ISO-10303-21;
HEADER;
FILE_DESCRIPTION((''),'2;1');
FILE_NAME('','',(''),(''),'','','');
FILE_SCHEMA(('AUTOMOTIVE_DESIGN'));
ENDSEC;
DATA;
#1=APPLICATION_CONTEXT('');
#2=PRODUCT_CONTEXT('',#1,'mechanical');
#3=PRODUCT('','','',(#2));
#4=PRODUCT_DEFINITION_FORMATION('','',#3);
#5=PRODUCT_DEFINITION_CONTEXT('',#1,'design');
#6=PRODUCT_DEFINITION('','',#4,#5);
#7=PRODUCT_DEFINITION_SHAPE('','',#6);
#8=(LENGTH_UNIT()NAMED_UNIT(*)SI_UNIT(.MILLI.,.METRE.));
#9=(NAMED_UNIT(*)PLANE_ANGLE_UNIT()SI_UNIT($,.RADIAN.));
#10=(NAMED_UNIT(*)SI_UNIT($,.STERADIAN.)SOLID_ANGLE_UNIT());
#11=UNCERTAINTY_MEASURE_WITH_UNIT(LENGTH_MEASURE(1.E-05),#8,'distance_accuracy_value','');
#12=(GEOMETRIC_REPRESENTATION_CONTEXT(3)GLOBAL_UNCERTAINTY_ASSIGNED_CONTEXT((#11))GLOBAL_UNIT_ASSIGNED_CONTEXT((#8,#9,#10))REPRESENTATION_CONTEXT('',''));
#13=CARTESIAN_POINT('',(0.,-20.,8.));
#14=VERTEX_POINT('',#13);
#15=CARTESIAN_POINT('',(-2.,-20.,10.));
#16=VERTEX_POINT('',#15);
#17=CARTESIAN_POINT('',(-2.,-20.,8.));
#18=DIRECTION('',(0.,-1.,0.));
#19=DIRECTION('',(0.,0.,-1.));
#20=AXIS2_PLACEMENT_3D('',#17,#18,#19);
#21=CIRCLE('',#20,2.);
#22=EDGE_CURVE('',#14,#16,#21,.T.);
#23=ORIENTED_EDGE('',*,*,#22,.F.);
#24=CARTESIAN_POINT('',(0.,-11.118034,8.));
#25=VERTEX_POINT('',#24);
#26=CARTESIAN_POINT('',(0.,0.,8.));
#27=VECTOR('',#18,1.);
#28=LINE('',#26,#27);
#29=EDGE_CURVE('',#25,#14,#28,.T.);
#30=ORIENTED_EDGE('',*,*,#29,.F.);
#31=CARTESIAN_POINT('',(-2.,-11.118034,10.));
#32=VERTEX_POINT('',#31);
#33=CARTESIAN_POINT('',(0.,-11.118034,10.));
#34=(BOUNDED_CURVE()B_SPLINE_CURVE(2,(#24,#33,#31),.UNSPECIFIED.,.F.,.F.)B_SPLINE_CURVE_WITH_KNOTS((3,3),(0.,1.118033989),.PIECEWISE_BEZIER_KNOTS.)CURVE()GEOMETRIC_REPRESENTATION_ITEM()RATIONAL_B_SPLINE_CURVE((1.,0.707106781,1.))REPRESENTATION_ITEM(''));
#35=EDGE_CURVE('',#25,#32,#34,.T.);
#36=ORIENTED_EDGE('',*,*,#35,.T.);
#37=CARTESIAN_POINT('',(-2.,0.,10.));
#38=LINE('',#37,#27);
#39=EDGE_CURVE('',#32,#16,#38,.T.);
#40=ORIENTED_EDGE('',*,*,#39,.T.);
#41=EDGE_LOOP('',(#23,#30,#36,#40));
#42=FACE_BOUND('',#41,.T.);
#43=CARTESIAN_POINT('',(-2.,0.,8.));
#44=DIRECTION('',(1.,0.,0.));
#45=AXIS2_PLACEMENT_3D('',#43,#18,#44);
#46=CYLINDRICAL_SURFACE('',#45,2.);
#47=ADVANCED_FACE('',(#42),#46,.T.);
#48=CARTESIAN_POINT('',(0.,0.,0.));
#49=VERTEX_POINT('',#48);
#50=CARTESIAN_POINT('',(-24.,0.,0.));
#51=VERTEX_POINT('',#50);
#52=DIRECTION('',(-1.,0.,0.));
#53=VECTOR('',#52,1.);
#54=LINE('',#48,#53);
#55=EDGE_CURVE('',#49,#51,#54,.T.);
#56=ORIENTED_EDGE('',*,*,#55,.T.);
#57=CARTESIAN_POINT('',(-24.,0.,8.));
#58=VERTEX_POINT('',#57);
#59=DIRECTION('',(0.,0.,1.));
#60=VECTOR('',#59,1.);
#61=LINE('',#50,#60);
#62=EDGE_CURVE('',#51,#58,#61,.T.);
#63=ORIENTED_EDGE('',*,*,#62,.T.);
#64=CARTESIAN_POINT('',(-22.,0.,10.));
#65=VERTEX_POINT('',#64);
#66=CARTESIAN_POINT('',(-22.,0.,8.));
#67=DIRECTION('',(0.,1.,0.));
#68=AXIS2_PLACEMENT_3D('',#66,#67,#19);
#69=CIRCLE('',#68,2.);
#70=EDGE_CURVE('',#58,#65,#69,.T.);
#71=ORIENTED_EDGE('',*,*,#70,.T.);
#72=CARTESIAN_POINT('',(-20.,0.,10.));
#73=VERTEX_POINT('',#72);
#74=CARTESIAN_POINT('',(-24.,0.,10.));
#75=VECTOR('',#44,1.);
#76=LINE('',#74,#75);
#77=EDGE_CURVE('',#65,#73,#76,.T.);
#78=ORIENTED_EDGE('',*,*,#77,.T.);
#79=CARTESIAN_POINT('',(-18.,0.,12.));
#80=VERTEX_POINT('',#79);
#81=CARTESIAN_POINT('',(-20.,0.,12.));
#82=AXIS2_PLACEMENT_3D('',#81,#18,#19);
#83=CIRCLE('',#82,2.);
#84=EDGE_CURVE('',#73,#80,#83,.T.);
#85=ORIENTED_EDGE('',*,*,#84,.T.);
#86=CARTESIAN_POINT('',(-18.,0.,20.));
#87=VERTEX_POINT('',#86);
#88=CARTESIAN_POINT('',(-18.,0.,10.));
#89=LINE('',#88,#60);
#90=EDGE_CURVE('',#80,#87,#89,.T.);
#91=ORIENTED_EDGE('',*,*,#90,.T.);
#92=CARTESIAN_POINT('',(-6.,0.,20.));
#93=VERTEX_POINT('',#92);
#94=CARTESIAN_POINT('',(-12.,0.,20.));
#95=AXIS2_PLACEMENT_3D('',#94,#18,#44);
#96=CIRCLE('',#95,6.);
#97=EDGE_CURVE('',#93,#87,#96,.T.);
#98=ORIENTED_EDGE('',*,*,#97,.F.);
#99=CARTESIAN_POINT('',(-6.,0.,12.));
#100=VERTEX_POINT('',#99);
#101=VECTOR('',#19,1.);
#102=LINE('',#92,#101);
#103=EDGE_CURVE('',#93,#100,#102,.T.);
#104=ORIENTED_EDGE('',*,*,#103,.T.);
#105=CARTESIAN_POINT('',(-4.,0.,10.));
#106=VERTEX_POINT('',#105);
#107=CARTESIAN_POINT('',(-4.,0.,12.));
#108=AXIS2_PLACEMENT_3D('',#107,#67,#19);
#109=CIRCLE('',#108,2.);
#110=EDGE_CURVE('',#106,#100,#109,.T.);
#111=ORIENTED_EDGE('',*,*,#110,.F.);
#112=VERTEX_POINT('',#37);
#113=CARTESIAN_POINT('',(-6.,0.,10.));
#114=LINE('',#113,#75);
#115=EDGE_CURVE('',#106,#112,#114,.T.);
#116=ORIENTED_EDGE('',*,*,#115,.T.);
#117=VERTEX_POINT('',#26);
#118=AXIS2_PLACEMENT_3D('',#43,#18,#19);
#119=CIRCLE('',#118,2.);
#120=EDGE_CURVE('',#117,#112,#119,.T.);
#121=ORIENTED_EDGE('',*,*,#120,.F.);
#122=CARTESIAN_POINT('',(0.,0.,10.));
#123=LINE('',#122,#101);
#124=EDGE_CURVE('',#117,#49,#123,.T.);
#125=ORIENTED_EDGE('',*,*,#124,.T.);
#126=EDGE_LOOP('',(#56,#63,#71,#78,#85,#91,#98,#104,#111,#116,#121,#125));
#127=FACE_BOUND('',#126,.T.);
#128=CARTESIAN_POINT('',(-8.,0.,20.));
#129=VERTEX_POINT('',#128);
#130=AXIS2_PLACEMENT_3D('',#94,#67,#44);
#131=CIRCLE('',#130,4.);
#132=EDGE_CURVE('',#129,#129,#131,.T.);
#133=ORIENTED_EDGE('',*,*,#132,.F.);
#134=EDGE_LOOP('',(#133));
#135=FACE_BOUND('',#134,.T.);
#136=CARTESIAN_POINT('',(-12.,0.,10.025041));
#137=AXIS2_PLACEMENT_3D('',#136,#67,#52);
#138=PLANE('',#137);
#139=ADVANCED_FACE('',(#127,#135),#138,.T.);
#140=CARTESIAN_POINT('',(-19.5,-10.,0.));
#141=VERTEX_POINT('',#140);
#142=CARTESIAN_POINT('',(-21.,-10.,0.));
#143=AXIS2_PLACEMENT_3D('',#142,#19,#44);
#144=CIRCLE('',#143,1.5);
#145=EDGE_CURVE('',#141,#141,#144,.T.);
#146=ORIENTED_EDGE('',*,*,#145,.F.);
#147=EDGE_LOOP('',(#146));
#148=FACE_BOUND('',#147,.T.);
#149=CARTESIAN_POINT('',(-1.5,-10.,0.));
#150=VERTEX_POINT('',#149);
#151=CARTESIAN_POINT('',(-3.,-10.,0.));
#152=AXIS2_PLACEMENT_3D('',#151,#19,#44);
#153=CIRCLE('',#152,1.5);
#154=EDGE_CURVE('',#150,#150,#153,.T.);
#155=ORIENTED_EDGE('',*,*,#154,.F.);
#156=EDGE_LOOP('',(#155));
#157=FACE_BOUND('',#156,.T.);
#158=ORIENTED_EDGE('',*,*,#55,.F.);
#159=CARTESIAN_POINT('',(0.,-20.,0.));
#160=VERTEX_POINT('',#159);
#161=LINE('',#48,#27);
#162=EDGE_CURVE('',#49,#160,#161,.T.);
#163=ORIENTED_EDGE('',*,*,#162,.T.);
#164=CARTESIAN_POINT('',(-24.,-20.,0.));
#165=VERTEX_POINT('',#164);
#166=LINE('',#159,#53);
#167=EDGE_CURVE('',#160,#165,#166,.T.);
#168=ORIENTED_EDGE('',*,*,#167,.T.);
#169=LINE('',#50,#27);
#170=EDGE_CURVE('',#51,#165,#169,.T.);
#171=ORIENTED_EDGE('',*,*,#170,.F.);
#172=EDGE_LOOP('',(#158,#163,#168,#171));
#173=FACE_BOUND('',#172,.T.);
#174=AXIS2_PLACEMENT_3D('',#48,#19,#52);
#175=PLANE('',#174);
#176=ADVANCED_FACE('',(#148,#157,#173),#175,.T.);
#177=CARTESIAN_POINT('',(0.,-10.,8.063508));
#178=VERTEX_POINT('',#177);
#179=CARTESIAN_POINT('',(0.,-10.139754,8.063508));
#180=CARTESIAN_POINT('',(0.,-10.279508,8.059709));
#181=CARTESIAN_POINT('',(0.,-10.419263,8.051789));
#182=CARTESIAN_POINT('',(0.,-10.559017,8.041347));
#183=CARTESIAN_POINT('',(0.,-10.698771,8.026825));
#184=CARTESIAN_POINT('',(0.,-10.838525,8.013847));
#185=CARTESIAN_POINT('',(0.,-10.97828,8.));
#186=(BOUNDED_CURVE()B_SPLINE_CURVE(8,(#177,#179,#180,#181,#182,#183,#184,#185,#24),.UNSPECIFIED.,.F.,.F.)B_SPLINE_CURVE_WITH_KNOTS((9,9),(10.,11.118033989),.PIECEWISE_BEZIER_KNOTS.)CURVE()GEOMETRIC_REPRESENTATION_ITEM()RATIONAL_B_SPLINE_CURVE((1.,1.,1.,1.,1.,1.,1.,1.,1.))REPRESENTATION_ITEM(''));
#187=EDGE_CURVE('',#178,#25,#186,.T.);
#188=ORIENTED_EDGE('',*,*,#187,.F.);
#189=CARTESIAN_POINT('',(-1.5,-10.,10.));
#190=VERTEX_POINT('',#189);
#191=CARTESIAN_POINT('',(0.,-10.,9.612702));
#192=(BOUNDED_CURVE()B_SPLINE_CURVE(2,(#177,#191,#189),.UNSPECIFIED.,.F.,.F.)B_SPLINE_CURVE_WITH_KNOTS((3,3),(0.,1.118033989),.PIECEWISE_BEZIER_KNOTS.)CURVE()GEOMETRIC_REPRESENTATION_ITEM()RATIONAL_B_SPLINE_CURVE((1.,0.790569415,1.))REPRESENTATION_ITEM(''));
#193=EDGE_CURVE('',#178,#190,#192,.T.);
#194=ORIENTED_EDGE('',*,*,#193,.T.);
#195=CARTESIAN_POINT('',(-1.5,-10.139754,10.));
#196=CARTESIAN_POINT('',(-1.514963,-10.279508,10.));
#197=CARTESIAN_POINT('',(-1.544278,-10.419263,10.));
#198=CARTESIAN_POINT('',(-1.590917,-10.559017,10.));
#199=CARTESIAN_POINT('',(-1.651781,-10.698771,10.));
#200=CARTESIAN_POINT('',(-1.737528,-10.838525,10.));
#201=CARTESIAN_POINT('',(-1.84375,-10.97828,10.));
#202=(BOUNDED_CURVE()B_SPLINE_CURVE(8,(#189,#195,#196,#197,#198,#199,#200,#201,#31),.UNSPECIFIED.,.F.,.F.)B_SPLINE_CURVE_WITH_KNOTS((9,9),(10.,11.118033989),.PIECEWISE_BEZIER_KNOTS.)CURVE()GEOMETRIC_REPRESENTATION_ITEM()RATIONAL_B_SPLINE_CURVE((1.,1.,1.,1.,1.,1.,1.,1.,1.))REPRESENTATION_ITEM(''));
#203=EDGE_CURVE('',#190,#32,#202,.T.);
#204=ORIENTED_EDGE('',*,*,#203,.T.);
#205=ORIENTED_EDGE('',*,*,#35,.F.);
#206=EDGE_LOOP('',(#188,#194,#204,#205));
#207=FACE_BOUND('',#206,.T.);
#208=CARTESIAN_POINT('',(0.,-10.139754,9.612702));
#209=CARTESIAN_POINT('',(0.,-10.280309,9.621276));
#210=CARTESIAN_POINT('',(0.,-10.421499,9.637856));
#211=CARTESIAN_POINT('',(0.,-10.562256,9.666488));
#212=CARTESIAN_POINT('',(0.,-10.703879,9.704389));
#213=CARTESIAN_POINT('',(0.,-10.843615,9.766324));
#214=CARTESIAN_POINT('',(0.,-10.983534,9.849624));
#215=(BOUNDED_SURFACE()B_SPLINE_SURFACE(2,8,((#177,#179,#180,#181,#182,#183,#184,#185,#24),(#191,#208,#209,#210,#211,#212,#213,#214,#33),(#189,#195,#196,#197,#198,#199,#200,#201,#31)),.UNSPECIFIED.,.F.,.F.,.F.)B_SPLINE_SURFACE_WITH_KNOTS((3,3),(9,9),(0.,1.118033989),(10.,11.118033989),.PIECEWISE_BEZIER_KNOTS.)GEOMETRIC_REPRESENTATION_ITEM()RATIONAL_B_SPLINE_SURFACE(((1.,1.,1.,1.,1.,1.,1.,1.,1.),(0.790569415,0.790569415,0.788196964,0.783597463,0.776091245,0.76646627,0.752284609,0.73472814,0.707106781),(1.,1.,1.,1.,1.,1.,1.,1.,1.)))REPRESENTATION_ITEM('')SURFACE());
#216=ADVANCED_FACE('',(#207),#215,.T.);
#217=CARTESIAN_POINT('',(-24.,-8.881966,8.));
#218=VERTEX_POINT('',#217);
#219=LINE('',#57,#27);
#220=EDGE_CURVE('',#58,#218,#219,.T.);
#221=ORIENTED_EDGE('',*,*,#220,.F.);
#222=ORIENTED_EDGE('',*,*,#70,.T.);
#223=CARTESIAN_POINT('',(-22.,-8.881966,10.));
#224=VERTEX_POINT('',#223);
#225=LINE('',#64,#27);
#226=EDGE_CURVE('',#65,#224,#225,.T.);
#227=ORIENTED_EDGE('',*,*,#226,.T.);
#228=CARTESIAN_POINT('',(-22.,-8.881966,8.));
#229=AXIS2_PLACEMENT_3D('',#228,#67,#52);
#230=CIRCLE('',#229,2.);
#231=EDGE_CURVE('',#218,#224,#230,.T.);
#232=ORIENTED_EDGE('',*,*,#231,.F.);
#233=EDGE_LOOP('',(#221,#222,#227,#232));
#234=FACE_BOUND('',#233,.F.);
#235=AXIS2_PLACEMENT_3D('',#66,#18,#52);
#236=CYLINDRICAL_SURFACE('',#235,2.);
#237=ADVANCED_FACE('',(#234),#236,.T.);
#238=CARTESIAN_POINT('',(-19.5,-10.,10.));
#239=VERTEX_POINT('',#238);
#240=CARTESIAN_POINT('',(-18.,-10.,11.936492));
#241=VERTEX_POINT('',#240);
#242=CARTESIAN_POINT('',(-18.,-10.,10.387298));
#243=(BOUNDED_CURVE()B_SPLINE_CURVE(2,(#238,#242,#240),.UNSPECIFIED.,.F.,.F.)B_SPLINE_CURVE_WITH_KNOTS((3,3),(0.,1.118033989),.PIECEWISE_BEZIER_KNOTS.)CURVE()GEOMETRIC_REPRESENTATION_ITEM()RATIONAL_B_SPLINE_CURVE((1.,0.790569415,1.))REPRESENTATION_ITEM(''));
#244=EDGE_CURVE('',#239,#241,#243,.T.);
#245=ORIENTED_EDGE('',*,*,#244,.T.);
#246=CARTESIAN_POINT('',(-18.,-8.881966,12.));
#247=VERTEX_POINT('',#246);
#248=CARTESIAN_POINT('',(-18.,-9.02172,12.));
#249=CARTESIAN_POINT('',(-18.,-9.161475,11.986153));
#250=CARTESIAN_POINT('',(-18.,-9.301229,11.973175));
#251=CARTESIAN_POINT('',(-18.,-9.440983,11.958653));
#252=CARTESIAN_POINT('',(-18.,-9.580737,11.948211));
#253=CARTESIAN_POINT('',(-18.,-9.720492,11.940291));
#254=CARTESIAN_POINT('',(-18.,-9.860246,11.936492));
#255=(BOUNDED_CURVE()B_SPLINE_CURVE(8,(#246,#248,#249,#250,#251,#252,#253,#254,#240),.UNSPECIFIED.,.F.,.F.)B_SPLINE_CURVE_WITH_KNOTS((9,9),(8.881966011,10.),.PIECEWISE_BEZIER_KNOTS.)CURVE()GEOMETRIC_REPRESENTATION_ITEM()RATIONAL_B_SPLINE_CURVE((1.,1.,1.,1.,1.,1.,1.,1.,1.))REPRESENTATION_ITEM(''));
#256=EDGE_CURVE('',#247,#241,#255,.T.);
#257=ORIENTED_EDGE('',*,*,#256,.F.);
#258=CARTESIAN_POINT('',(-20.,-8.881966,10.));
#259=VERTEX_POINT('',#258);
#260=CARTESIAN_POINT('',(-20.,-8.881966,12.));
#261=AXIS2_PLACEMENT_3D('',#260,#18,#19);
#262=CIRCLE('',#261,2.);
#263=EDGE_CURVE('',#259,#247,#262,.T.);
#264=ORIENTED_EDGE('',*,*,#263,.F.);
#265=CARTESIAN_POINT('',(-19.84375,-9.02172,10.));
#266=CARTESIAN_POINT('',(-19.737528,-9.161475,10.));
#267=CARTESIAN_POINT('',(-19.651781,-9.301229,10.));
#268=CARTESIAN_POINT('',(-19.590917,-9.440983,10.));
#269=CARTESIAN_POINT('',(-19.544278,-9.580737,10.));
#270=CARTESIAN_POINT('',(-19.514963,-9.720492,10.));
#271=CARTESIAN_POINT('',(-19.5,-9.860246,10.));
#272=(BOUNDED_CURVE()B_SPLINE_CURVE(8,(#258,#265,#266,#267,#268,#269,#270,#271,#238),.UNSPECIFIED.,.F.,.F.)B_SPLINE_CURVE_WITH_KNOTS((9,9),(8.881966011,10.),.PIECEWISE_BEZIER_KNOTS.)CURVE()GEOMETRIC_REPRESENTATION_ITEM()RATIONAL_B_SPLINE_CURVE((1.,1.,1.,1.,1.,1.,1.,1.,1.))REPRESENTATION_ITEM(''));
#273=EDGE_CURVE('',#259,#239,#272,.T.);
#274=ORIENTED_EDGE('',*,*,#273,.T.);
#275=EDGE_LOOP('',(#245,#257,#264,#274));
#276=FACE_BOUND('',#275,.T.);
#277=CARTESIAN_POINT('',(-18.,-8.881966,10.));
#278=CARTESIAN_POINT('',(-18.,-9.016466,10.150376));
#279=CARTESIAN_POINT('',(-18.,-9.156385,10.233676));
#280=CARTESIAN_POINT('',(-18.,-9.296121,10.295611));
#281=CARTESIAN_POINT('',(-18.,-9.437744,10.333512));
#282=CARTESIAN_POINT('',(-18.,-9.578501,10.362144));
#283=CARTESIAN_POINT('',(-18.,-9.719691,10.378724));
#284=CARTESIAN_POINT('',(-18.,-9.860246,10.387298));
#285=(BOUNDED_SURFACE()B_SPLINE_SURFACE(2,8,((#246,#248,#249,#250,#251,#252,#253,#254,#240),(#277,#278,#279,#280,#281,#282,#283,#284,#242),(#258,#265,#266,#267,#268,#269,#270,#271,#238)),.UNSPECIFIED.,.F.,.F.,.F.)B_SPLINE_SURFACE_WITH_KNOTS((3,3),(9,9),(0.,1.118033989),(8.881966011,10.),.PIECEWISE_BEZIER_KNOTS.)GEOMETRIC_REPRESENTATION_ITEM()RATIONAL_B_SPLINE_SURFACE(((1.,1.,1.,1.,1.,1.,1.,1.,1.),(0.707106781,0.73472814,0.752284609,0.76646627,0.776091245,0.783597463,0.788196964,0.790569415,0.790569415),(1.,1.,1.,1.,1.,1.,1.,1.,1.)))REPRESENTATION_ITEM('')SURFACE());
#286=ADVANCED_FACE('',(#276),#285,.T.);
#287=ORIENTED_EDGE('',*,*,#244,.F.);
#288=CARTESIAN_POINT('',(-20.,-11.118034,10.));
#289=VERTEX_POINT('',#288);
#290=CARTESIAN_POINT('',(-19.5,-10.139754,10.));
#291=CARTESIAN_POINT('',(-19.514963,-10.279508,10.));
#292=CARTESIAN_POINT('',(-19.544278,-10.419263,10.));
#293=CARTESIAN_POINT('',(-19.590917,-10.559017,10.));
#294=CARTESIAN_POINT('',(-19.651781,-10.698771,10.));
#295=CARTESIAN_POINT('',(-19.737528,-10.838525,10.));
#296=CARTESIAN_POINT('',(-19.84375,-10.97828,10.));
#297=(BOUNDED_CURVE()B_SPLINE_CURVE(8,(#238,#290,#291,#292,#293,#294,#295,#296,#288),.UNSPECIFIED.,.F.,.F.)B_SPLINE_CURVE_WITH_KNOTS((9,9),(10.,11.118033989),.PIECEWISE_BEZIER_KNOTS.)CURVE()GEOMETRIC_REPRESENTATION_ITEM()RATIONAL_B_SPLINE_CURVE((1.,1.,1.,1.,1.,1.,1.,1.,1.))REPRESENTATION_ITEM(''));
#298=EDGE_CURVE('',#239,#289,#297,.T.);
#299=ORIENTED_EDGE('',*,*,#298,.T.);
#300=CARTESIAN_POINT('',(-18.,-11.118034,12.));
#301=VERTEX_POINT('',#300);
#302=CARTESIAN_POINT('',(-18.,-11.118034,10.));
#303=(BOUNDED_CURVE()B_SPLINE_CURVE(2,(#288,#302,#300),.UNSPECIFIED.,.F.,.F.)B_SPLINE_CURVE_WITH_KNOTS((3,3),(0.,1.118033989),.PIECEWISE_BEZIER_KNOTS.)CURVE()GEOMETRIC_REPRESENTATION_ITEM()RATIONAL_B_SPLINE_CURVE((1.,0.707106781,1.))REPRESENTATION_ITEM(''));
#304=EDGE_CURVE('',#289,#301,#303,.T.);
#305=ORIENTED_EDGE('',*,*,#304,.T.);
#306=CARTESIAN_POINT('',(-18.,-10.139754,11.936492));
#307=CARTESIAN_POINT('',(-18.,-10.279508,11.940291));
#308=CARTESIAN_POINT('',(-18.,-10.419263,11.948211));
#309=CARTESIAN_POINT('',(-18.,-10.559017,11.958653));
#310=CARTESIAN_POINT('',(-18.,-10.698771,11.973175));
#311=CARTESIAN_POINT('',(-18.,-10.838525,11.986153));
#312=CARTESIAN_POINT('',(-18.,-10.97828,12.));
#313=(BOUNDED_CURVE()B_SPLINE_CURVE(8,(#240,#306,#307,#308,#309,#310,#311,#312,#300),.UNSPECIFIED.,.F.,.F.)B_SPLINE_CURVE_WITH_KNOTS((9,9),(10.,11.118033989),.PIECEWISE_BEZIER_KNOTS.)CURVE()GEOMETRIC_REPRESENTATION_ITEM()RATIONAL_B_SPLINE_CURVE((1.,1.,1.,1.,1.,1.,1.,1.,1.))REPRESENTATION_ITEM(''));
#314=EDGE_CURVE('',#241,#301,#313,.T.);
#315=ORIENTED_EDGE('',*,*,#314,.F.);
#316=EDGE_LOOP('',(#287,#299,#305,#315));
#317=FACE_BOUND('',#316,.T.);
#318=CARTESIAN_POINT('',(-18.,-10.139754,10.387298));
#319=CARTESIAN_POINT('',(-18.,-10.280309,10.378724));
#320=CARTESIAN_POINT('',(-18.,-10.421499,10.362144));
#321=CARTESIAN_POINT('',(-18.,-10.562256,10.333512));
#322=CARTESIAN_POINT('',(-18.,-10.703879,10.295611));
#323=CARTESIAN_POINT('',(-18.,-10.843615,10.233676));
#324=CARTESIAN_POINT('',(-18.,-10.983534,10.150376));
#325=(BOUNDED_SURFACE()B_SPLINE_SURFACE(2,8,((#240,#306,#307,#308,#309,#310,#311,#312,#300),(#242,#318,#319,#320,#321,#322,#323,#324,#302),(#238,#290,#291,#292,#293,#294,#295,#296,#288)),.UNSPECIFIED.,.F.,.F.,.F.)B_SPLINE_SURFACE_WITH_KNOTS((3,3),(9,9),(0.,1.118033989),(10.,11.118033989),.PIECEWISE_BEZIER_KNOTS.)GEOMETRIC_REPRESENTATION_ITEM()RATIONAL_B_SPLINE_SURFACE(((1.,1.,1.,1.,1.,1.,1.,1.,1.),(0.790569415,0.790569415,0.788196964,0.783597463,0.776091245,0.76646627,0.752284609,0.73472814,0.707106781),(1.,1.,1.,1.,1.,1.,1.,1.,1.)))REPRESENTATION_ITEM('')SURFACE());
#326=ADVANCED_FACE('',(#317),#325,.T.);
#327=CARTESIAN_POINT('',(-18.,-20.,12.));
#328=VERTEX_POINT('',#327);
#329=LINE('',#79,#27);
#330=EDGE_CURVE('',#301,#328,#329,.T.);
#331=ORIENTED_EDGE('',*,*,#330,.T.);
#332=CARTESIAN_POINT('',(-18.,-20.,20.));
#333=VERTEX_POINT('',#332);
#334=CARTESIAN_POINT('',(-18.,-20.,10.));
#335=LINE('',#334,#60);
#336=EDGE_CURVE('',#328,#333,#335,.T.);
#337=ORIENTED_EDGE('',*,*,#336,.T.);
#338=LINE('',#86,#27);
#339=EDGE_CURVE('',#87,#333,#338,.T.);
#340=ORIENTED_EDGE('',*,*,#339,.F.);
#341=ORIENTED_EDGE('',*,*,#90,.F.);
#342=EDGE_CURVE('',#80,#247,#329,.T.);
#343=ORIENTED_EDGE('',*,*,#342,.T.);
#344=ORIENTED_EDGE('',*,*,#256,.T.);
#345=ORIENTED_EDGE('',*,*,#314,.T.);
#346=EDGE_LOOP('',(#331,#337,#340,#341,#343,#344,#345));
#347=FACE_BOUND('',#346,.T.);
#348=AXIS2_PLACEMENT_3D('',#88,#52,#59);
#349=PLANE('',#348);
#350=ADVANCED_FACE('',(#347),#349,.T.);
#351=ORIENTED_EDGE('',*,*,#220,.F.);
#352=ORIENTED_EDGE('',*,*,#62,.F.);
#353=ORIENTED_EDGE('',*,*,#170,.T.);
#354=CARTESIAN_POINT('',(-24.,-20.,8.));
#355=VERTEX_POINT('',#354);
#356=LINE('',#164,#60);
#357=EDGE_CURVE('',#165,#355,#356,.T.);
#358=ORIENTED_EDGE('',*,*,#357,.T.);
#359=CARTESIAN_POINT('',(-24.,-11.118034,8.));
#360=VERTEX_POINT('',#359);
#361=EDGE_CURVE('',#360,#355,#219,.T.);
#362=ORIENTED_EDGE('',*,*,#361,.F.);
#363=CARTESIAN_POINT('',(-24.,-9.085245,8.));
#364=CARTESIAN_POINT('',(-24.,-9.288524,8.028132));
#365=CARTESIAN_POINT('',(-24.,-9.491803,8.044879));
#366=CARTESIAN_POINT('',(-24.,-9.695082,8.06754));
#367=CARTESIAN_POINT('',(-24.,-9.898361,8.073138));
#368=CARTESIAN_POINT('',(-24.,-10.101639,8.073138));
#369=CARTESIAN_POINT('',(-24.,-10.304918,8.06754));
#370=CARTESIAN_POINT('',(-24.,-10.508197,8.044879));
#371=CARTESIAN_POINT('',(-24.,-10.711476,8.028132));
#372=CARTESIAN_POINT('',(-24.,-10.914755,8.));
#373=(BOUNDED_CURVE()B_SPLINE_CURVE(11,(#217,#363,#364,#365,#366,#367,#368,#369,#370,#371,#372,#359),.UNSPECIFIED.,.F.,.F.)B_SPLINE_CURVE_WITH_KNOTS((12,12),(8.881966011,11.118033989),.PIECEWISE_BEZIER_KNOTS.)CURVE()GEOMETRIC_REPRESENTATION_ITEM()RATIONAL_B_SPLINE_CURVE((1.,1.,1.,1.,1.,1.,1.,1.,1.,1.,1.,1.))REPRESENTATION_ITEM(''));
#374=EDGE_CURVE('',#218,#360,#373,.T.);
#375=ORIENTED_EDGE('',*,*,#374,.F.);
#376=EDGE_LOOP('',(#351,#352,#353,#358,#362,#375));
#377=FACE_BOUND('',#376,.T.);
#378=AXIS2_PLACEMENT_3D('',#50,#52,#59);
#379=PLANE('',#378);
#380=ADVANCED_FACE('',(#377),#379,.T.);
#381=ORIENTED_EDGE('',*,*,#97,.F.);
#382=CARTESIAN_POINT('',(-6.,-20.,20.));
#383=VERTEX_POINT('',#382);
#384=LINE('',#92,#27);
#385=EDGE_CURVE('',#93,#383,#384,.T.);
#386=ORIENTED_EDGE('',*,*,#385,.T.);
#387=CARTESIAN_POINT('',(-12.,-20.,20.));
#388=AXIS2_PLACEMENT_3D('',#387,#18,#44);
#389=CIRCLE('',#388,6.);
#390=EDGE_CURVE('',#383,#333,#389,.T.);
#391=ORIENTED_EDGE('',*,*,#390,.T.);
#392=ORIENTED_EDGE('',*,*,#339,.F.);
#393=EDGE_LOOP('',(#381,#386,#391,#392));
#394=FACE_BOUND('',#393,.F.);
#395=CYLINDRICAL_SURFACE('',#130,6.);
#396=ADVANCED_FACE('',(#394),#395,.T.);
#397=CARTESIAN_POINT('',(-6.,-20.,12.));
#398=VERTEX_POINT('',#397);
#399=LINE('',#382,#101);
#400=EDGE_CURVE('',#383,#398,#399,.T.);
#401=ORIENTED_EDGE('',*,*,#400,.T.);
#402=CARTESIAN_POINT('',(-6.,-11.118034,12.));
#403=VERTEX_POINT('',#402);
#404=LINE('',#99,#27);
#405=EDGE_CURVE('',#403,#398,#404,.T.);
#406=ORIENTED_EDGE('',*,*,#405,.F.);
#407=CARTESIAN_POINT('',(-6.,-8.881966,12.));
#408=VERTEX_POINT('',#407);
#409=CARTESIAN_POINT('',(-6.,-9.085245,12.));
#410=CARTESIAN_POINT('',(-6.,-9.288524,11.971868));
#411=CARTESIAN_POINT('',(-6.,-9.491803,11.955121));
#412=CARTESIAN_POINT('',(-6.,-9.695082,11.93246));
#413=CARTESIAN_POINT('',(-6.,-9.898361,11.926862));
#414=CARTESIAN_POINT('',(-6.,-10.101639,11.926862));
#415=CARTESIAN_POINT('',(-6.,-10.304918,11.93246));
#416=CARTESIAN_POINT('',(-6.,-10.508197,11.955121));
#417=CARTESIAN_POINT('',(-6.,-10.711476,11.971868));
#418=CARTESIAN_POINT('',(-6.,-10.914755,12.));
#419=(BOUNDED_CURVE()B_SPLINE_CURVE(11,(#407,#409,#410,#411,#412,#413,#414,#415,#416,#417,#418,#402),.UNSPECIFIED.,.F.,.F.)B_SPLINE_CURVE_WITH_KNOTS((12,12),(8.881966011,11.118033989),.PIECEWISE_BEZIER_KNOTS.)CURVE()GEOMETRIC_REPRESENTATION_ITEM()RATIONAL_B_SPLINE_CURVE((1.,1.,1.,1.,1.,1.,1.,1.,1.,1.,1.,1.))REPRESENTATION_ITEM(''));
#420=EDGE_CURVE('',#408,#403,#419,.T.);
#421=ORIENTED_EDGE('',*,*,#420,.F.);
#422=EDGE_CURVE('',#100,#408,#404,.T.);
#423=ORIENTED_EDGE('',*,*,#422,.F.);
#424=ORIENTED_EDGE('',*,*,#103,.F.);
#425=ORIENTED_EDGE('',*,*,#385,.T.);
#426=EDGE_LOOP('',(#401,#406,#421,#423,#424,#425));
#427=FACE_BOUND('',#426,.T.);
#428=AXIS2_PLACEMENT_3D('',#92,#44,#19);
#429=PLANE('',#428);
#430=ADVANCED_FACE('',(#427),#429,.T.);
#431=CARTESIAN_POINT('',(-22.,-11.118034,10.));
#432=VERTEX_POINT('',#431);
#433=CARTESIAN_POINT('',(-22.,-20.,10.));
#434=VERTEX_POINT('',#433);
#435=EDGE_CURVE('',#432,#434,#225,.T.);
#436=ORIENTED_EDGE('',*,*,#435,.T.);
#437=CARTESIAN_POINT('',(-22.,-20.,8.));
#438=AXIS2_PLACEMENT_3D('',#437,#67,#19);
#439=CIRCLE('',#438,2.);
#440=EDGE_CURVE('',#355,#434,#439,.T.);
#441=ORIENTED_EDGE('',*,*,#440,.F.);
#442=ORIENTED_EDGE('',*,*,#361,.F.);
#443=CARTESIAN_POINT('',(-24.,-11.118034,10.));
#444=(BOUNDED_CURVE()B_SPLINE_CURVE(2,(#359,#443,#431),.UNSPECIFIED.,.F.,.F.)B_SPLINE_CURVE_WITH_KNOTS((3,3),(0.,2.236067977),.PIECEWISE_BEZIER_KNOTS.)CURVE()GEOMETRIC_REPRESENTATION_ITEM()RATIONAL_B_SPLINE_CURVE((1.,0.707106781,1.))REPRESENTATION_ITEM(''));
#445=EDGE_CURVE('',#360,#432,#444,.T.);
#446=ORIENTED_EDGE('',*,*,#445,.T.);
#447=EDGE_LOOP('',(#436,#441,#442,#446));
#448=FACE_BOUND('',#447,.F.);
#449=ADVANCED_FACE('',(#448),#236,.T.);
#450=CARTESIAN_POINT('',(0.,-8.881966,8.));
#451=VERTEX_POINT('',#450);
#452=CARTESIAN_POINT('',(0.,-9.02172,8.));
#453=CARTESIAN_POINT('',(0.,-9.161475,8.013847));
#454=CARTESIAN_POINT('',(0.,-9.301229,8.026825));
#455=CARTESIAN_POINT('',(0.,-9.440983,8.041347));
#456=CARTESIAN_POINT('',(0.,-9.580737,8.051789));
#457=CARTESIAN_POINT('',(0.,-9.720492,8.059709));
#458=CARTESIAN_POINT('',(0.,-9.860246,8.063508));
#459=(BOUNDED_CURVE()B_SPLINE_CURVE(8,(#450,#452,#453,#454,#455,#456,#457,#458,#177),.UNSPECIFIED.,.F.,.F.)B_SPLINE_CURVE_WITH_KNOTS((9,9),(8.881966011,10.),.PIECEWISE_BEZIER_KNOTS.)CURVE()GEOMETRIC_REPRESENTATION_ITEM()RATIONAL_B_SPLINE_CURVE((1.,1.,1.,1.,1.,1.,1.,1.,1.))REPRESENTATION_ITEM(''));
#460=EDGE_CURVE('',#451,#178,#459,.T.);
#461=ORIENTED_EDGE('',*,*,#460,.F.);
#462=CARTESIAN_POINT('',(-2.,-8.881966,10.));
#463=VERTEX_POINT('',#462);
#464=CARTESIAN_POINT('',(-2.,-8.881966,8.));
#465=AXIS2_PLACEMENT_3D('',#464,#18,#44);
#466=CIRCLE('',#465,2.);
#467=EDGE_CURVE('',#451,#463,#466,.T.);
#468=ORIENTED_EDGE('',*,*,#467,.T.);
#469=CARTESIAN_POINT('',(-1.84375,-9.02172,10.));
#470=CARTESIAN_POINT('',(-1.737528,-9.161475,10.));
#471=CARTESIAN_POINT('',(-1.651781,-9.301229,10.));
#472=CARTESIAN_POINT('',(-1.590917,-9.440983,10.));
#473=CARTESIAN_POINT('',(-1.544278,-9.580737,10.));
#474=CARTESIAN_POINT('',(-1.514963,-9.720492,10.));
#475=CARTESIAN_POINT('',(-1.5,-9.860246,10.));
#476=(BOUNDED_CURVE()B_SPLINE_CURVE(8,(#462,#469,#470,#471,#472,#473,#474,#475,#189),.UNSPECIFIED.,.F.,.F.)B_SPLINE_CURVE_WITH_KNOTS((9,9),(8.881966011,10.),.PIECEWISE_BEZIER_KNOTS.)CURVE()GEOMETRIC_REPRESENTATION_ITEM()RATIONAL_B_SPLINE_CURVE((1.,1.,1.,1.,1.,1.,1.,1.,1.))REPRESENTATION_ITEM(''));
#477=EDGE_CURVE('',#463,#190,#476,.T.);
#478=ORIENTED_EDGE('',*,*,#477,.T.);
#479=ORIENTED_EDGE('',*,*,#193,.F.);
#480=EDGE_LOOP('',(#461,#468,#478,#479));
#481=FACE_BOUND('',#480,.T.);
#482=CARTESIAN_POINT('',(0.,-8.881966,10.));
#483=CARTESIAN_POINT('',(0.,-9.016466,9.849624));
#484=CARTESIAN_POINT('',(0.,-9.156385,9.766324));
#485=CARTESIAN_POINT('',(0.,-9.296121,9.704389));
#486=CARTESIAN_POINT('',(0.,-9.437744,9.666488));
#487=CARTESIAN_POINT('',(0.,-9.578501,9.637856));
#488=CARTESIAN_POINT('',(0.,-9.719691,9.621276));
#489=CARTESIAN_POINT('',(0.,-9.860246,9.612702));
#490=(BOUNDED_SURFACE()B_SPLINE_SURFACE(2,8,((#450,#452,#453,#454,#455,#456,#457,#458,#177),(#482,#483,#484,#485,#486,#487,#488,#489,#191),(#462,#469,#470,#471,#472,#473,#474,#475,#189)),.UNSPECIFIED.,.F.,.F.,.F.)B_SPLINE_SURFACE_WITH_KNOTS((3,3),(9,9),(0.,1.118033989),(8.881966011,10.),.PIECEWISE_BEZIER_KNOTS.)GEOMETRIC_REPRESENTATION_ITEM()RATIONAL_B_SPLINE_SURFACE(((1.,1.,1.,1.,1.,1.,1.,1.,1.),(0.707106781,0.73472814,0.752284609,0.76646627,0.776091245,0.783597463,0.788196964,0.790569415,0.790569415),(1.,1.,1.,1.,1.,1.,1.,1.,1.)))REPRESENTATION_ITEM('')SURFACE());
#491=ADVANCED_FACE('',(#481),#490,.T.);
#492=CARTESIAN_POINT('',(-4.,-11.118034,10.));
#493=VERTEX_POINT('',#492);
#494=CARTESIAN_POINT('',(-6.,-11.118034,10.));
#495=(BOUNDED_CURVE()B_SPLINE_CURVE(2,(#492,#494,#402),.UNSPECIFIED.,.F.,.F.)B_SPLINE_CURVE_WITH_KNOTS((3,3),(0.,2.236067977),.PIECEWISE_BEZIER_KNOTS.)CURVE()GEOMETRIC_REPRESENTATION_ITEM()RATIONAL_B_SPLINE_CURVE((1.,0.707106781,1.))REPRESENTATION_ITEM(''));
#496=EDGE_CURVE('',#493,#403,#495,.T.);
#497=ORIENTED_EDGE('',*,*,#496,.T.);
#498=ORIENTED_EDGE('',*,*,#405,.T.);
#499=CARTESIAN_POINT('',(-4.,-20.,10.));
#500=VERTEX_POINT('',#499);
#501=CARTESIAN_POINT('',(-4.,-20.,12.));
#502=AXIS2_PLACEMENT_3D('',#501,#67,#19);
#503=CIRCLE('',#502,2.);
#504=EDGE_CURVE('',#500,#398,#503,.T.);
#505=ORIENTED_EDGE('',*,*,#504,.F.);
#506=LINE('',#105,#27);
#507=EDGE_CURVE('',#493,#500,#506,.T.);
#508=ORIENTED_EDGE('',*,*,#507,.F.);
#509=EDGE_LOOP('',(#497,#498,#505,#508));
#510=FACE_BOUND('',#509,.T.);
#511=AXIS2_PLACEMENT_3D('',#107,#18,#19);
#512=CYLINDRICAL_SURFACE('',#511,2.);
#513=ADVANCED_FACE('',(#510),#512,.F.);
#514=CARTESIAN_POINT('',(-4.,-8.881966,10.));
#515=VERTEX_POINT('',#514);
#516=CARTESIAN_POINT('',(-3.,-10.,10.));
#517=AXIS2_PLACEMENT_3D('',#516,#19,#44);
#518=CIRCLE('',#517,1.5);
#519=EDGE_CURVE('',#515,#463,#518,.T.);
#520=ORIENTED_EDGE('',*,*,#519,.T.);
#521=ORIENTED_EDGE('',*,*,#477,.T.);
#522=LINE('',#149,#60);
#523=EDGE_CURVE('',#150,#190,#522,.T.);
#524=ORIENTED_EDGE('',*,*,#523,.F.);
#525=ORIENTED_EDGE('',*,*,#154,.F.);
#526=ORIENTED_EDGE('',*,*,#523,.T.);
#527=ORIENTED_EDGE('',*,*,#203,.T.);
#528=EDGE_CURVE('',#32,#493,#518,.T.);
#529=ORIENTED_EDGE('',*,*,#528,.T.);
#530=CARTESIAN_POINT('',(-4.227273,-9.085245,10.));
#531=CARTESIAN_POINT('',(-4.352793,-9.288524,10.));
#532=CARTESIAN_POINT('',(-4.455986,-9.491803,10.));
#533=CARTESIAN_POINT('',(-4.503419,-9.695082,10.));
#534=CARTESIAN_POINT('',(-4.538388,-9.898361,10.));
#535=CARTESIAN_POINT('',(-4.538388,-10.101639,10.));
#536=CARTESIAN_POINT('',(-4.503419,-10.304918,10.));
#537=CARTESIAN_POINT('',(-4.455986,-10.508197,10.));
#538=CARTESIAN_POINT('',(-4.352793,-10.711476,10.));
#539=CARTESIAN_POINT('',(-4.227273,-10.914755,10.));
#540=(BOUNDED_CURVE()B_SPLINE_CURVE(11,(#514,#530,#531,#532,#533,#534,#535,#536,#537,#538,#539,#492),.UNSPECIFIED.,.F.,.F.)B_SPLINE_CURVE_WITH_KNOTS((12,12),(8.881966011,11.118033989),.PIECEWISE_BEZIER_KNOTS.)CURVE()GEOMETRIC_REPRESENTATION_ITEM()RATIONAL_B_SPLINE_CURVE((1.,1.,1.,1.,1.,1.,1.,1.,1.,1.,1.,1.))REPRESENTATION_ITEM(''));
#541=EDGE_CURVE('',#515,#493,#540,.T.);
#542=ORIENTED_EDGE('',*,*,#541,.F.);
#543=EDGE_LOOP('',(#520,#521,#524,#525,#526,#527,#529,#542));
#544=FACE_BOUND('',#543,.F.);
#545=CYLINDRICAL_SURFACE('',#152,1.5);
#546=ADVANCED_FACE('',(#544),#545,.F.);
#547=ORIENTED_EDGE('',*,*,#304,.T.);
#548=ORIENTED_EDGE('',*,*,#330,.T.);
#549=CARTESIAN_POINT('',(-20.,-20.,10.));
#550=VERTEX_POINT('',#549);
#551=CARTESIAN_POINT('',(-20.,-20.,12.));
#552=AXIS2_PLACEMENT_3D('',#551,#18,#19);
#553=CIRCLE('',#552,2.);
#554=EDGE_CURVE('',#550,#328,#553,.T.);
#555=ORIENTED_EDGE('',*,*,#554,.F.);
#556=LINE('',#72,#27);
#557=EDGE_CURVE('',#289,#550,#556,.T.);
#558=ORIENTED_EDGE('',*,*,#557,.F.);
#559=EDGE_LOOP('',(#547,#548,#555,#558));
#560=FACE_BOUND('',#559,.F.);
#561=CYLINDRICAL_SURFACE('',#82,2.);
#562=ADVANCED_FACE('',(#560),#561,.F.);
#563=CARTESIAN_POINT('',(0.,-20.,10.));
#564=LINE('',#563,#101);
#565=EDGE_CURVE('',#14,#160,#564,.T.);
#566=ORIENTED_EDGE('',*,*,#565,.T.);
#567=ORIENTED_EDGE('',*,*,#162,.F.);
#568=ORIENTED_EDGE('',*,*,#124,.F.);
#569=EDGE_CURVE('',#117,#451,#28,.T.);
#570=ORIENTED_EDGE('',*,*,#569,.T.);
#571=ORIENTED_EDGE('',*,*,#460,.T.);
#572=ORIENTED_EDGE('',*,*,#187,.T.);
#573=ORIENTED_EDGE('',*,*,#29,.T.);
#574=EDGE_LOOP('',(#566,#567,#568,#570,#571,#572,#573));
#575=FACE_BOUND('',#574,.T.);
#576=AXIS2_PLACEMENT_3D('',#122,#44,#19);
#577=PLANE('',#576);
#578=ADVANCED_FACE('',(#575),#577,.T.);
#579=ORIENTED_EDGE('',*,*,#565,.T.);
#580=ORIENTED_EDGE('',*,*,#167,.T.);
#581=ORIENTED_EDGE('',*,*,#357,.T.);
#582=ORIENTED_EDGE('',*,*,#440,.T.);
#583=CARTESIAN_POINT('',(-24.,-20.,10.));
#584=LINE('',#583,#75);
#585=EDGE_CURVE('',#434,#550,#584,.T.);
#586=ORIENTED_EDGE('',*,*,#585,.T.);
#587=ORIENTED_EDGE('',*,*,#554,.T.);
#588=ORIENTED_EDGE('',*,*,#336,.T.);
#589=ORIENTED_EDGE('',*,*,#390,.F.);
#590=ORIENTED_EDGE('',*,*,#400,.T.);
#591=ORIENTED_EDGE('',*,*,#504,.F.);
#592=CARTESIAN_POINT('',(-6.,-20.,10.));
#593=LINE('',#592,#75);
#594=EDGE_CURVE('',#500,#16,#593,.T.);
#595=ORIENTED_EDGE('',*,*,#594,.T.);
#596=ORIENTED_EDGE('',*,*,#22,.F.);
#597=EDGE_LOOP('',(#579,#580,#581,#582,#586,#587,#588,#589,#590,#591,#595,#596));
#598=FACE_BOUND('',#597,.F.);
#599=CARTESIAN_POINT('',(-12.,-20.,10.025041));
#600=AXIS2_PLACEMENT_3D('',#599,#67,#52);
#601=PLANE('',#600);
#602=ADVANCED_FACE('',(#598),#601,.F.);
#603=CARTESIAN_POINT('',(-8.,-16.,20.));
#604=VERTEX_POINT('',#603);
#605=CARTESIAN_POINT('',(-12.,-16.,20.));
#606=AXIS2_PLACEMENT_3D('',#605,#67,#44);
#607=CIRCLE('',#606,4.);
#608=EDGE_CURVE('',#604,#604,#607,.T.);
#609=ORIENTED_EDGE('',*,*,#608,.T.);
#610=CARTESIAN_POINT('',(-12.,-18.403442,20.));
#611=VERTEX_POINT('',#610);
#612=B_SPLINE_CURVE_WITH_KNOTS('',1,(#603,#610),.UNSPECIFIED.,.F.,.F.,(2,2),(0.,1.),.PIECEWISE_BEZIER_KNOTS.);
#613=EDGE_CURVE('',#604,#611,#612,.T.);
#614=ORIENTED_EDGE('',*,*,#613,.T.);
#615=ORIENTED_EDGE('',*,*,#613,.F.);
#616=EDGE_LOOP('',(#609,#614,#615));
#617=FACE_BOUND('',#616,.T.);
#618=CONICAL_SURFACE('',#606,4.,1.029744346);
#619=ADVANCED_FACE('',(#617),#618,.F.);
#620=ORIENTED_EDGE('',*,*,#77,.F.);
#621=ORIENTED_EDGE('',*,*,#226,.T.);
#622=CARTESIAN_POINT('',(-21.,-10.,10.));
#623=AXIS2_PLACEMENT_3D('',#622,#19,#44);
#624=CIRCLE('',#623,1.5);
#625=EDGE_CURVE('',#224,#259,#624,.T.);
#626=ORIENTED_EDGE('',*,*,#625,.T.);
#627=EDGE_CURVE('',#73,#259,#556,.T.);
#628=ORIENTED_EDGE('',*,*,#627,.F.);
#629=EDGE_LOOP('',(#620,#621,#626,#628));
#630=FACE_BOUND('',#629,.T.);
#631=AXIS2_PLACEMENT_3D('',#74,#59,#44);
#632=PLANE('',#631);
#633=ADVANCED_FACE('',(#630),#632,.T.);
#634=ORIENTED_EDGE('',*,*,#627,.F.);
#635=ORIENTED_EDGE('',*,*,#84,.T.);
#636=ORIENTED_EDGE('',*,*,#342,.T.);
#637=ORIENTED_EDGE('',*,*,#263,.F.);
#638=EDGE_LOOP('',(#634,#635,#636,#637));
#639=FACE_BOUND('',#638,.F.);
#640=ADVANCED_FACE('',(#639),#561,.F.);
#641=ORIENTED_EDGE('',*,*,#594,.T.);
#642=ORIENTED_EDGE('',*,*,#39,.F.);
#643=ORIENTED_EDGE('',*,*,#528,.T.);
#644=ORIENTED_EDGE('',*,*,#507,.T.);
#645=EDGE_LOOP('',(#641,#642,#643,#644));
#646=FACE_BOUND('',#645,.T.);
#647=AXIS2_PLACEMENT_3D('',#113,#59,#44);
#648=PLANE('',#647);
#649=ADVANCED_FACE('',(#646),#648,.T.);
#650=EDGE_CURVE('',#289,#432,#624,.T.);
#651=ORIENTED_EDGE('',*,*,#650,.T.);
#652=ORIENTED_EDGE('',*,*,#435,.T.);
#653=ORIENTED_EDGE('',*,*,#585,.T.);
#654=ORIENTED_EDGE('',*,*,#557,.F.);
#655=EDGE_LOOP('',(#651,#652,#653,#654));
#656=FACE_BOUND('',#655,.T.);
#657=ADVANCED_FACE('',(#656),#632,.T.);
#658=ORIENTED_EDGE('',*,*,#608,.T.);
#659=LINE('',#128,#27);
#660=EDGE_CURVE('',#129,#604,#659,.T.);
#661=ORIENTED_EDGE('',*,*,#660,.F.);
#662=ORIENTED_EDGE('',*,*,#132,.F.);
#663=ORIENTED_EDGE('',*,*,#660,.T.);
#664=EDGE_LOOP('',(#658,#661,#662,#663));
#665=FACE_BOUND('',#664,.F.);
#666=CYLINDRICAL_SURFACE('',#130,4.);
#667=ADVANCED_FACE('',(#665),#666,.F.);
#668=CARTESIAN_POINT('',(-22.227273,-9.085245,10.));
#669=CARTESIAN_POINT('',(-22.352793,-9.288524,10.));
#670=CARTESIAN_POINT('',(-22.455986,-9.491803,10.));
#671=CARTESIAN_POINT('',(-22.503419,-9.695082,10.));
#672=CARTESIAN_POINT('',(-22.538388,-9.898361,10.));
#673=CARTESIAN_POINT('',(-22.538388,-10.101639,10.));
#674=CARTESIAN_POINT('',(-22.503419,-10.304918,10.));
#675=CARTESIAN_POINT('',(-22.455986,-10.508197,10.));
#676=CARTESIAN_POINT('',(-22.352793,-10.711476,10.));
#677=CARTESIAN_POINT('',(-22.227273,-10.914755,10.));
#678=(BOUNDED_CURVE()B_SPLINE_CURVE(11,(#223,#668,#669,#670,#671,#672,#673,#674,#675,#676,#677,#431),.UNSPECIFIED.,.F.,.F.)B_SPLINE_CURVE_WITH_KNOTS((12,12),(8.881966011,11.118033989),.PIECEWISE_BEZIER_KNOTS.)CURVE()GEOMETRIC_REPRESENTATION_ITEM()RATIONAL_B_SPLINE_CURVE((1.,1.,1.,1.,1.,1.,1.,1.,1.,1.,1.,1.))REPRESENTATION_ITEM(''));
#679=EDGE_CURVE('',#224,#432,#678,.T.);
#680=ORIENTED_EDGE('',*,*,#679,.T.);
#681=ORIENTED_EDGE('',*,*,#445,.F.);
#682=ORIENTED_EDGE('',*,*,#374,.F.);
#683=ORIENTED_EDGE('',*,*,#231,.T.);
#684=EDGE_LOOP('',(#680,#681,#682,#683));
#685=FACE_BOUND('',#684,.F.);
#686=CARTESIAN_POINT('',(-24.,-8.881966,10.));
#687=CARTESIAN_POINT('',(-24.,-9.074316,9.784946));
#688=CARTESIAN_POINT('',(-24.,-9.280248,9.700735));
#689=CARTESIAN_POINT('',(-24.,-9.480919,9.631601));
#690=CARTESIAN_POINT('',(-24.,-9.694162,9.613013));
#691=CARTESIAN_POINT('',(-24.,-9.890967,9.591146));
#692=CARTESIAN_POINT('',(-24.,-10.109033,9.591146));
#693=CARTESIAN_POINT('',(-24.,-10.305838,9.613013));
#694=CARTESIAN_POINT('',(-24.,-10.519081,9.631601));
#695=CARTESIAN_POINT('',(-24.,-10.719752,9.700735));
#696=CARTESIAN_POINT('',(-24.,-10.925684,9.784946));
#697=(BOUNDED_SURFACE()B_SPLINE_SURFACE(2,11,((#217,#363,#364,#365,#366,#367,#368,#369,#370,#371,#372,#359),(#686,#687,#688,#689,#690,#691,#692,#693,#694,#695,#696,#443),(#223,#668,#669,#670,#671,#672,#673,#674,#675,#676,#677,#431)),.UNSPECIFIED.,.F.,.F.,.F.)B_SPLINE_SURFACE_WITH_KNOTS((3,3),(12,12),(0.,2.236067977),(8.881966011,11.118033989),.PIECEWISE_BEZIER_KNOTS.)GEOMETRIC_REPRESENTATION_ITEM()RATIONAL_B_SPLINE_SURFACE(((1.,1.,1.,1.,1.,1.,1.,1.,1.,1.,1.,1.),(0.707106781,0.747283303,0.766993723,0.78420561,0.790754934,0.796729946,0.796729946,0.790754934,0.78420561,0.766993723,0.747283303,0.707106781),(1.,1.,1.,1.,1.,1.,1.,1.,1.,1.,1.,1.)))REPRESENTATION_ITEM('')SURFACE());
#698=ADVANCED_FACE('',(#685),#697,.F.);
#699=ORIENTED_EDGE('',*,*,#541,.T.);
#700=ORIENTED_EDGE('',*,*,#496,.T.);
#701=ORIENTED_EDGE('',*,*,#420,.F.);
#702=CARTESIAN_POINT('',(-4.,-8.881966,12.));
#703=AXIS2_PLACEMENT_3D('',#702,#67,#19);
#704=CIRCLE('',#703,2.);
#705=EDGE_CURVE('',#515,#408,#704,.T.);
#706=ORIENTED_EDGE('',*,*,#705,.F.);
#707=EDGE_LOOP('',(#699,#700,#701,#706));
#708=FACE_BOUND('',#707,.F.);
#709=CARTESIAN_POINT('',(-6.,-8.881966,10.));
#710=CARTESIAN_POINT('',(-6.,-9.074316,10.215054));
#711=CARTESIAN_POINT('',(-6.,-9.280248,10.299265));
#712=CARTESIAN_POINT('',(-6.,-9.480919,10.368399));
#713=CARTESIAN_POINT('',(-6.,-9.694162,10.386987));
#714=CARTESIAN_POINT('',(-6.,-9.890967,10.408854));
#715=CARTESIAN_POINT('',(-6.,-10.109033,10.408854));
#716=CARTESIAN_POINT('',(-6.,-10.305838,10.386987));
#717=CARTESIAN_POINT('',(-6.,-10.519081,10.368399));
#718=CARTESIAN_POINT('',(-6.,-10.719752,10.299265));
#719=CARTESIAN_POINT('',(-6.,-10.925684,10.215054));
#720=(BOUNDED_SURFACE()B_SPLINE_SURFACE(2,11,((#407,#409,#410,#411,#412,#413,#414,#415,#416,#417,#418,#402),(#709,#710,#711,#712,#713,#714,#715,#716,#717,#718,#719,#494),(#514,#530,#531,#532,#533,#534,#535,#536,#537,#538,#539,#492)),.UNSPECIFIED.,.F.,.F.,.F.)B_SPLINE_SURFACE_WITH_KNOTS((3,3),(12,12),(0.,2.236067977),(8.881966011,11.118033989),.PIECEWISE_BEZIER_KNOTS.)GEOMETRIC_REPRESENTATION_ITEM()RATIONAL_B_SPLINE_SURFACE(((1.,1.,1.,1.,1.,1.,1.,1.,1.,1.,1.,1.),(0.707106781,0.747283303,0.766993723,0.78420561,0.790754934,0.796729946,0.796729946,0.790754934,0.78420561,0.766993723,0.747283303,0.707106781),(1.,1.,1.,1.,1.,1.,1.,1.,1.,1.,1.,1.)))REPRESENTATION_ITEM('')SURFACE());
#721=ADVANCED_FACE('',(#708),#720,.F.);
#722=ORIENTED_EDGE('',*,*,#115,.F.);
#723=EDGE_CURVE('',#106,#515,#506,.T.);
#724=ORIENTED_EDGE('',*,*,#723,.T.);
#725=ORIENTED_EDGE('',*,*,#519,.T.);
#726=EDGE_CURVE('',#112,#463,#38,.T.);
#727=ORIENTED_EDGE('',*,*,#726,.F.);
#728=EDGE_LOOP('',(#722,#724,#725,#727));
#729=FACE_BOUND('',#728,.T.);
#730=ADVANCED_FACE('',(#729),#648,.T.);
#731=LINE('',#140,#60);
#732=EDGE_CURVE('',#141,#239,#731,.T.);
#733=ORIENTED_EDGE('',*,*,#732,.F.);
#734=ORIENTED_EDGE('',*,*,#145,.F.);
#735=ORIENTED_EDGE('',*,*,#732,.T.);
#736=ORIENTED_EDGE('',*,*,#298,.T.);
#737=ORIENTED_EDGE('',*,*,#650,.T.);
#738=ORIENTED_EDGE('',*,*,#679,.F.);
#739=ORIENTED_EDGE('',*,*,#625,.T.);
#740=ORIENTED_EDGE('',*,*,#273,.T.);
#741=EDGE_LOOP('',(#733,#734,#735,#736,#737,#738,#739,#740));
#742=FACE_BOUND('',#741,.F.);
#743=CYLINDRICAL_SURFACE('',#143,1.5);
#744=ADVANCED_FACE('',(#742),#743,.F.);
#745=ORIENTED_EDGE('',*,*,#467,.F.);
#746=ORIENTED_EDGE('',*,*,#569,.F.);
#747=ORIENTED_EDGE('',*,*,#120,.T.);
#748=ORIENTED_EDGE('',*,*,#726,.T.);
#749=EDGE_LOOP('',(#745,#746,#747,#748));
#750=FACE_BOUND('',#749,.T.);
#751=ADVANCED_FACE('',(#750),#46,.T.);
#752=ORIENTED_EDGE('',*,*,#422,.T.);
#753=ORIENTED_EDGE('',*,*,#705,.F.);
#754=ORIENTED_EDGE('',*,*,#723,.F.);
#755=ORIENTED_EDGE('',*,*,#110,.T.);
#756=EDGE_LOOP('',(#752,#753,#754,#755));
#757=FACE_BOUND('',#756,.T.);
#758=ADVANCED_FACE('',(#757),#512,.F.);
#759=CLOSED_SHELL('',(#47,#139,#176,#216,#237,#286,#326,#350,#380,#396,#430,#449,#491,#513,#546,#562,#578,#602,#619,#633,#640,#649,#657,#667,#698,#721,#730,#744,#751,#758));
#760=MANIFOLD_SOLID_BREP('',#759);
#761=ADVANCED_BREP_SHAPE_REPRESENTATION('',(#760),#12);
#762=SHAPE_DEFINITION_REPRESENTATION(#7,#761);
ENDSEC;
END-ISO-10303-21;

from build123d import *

# Parameters (mm, degrees)
PAD_DEPTH      = 20
SKETCH001_R    = 1.5
HOLE_DEPTH     = 25
HOLE_TIPS_R    = 1.5
SKETCH002_R    = 4
HOLE001_DEPTH  = 16
HOLE001_TIPS_R = 4
FILLET_R       = 2


with BuildPart() as part:
    # Sketch → Pad (new body)
    with BuildSketch(Plane.XZ):
        with BuildLine():
            Line((0, 0), (-24, 0))
            Line((-24, 0), (-24, 10))
            Line((-24, 10), (-18, 10))
            Line((-18, 10), (-18, 20))
            ThreePointArc((-6, 20), (-12, 26), (-18, 20))
            Line((-6, 20), (-6, 10))
            Line((-6, 10), (0, 10))
            Line((0, 10), (0, 0))
        make_face()
    extrude(amount=PAD_DEPTH)

    # Sketch001 (on Face4 of Pad) → Hole (cut)
    with BuildSketch(Plane(origin=(0, 0, 0), x_dir=(1, 0, 0), z_dir=(0, 0, -1))):
        with Locations((-21, 10)):
            Circle(SKETCH001_R)
        with Locations((-3, 10)):
            Circle(SKETCH001_R)
    extrude(amount=-HOLE_DEPTH, mode=Mode.SUBTRACT)

    # Hole tips → Hole tip 1 section 0
    with BuildSketch(Plane(origin=(0, 0, 25), x_dir=(1, 0, 0), z_dir=(0, 0, -1)), mode=Mode.PRIVATE) as hole_tip_1_s0:
        with Locations((-21, 10)):
            Circle(HOLE_TIPS_R)
    loft([hole_tip_1_s0.sketch, Vertex(-21, -10, 25.901291)], mode=Mode.SUBTRACT)

    # Hole tips → Hole tip 2 section 0
    with BuildSketch(Plane(origin=(0, 0, 25), x_dir=(1, 0, 0), z_dir=(0, 0, -1)), mode=Mode.PRIVATE) as hole_tip_2_s0:
        with Locations((-3, 10)):
            Circle(HOLE_TIPS_R)
    loft([hole_tip_2_s0.sketch, Vertex(-3, -10, 25.901291)], mode=Mode.SUBTRACT)

    # Sketch002 (on Face4 of Hole) → Hole001 (cut)
    with BuildSketch(Plane(origin=(0, 0, 0), x_dir=(1, 0, 0), z_dir=(0, 1, 0))):
        with Locations((-12, -20)):
            Circle(SKETCH002_R)
    extrude(amount=-HOLE001_DEPTH, mode=Mode.SUBTRACT)

    # Hole001 tips → Hole001 tip 1 section 0
    with BuildSketch(Plane(origin=(0, -16, 0), x_dir=(1, 0, 0), z_dir=(0, 1, 0)), mode=Mode.PRIVATE) as hole001_tip_1_s0:
        with Locations((-12, -20)):
            Circle(HOLE001_TIPS_R)
    loft([hole001_tip_1_s0.sketch, Vertex(-12, -18.403442, 20)], mode=Mode.SUBTRACT)

    # Fillet
    fillet_edges = [part.edges().sort_by_distance(p)[0] for p in [
        (0, -10, 10),
        (-6, -10, 10),
        (-24, -10, 10),
        (-18, -10, 10),
    ]]
    fillet(fillet_edges, radius=FILLET_R)


solid = part.part
